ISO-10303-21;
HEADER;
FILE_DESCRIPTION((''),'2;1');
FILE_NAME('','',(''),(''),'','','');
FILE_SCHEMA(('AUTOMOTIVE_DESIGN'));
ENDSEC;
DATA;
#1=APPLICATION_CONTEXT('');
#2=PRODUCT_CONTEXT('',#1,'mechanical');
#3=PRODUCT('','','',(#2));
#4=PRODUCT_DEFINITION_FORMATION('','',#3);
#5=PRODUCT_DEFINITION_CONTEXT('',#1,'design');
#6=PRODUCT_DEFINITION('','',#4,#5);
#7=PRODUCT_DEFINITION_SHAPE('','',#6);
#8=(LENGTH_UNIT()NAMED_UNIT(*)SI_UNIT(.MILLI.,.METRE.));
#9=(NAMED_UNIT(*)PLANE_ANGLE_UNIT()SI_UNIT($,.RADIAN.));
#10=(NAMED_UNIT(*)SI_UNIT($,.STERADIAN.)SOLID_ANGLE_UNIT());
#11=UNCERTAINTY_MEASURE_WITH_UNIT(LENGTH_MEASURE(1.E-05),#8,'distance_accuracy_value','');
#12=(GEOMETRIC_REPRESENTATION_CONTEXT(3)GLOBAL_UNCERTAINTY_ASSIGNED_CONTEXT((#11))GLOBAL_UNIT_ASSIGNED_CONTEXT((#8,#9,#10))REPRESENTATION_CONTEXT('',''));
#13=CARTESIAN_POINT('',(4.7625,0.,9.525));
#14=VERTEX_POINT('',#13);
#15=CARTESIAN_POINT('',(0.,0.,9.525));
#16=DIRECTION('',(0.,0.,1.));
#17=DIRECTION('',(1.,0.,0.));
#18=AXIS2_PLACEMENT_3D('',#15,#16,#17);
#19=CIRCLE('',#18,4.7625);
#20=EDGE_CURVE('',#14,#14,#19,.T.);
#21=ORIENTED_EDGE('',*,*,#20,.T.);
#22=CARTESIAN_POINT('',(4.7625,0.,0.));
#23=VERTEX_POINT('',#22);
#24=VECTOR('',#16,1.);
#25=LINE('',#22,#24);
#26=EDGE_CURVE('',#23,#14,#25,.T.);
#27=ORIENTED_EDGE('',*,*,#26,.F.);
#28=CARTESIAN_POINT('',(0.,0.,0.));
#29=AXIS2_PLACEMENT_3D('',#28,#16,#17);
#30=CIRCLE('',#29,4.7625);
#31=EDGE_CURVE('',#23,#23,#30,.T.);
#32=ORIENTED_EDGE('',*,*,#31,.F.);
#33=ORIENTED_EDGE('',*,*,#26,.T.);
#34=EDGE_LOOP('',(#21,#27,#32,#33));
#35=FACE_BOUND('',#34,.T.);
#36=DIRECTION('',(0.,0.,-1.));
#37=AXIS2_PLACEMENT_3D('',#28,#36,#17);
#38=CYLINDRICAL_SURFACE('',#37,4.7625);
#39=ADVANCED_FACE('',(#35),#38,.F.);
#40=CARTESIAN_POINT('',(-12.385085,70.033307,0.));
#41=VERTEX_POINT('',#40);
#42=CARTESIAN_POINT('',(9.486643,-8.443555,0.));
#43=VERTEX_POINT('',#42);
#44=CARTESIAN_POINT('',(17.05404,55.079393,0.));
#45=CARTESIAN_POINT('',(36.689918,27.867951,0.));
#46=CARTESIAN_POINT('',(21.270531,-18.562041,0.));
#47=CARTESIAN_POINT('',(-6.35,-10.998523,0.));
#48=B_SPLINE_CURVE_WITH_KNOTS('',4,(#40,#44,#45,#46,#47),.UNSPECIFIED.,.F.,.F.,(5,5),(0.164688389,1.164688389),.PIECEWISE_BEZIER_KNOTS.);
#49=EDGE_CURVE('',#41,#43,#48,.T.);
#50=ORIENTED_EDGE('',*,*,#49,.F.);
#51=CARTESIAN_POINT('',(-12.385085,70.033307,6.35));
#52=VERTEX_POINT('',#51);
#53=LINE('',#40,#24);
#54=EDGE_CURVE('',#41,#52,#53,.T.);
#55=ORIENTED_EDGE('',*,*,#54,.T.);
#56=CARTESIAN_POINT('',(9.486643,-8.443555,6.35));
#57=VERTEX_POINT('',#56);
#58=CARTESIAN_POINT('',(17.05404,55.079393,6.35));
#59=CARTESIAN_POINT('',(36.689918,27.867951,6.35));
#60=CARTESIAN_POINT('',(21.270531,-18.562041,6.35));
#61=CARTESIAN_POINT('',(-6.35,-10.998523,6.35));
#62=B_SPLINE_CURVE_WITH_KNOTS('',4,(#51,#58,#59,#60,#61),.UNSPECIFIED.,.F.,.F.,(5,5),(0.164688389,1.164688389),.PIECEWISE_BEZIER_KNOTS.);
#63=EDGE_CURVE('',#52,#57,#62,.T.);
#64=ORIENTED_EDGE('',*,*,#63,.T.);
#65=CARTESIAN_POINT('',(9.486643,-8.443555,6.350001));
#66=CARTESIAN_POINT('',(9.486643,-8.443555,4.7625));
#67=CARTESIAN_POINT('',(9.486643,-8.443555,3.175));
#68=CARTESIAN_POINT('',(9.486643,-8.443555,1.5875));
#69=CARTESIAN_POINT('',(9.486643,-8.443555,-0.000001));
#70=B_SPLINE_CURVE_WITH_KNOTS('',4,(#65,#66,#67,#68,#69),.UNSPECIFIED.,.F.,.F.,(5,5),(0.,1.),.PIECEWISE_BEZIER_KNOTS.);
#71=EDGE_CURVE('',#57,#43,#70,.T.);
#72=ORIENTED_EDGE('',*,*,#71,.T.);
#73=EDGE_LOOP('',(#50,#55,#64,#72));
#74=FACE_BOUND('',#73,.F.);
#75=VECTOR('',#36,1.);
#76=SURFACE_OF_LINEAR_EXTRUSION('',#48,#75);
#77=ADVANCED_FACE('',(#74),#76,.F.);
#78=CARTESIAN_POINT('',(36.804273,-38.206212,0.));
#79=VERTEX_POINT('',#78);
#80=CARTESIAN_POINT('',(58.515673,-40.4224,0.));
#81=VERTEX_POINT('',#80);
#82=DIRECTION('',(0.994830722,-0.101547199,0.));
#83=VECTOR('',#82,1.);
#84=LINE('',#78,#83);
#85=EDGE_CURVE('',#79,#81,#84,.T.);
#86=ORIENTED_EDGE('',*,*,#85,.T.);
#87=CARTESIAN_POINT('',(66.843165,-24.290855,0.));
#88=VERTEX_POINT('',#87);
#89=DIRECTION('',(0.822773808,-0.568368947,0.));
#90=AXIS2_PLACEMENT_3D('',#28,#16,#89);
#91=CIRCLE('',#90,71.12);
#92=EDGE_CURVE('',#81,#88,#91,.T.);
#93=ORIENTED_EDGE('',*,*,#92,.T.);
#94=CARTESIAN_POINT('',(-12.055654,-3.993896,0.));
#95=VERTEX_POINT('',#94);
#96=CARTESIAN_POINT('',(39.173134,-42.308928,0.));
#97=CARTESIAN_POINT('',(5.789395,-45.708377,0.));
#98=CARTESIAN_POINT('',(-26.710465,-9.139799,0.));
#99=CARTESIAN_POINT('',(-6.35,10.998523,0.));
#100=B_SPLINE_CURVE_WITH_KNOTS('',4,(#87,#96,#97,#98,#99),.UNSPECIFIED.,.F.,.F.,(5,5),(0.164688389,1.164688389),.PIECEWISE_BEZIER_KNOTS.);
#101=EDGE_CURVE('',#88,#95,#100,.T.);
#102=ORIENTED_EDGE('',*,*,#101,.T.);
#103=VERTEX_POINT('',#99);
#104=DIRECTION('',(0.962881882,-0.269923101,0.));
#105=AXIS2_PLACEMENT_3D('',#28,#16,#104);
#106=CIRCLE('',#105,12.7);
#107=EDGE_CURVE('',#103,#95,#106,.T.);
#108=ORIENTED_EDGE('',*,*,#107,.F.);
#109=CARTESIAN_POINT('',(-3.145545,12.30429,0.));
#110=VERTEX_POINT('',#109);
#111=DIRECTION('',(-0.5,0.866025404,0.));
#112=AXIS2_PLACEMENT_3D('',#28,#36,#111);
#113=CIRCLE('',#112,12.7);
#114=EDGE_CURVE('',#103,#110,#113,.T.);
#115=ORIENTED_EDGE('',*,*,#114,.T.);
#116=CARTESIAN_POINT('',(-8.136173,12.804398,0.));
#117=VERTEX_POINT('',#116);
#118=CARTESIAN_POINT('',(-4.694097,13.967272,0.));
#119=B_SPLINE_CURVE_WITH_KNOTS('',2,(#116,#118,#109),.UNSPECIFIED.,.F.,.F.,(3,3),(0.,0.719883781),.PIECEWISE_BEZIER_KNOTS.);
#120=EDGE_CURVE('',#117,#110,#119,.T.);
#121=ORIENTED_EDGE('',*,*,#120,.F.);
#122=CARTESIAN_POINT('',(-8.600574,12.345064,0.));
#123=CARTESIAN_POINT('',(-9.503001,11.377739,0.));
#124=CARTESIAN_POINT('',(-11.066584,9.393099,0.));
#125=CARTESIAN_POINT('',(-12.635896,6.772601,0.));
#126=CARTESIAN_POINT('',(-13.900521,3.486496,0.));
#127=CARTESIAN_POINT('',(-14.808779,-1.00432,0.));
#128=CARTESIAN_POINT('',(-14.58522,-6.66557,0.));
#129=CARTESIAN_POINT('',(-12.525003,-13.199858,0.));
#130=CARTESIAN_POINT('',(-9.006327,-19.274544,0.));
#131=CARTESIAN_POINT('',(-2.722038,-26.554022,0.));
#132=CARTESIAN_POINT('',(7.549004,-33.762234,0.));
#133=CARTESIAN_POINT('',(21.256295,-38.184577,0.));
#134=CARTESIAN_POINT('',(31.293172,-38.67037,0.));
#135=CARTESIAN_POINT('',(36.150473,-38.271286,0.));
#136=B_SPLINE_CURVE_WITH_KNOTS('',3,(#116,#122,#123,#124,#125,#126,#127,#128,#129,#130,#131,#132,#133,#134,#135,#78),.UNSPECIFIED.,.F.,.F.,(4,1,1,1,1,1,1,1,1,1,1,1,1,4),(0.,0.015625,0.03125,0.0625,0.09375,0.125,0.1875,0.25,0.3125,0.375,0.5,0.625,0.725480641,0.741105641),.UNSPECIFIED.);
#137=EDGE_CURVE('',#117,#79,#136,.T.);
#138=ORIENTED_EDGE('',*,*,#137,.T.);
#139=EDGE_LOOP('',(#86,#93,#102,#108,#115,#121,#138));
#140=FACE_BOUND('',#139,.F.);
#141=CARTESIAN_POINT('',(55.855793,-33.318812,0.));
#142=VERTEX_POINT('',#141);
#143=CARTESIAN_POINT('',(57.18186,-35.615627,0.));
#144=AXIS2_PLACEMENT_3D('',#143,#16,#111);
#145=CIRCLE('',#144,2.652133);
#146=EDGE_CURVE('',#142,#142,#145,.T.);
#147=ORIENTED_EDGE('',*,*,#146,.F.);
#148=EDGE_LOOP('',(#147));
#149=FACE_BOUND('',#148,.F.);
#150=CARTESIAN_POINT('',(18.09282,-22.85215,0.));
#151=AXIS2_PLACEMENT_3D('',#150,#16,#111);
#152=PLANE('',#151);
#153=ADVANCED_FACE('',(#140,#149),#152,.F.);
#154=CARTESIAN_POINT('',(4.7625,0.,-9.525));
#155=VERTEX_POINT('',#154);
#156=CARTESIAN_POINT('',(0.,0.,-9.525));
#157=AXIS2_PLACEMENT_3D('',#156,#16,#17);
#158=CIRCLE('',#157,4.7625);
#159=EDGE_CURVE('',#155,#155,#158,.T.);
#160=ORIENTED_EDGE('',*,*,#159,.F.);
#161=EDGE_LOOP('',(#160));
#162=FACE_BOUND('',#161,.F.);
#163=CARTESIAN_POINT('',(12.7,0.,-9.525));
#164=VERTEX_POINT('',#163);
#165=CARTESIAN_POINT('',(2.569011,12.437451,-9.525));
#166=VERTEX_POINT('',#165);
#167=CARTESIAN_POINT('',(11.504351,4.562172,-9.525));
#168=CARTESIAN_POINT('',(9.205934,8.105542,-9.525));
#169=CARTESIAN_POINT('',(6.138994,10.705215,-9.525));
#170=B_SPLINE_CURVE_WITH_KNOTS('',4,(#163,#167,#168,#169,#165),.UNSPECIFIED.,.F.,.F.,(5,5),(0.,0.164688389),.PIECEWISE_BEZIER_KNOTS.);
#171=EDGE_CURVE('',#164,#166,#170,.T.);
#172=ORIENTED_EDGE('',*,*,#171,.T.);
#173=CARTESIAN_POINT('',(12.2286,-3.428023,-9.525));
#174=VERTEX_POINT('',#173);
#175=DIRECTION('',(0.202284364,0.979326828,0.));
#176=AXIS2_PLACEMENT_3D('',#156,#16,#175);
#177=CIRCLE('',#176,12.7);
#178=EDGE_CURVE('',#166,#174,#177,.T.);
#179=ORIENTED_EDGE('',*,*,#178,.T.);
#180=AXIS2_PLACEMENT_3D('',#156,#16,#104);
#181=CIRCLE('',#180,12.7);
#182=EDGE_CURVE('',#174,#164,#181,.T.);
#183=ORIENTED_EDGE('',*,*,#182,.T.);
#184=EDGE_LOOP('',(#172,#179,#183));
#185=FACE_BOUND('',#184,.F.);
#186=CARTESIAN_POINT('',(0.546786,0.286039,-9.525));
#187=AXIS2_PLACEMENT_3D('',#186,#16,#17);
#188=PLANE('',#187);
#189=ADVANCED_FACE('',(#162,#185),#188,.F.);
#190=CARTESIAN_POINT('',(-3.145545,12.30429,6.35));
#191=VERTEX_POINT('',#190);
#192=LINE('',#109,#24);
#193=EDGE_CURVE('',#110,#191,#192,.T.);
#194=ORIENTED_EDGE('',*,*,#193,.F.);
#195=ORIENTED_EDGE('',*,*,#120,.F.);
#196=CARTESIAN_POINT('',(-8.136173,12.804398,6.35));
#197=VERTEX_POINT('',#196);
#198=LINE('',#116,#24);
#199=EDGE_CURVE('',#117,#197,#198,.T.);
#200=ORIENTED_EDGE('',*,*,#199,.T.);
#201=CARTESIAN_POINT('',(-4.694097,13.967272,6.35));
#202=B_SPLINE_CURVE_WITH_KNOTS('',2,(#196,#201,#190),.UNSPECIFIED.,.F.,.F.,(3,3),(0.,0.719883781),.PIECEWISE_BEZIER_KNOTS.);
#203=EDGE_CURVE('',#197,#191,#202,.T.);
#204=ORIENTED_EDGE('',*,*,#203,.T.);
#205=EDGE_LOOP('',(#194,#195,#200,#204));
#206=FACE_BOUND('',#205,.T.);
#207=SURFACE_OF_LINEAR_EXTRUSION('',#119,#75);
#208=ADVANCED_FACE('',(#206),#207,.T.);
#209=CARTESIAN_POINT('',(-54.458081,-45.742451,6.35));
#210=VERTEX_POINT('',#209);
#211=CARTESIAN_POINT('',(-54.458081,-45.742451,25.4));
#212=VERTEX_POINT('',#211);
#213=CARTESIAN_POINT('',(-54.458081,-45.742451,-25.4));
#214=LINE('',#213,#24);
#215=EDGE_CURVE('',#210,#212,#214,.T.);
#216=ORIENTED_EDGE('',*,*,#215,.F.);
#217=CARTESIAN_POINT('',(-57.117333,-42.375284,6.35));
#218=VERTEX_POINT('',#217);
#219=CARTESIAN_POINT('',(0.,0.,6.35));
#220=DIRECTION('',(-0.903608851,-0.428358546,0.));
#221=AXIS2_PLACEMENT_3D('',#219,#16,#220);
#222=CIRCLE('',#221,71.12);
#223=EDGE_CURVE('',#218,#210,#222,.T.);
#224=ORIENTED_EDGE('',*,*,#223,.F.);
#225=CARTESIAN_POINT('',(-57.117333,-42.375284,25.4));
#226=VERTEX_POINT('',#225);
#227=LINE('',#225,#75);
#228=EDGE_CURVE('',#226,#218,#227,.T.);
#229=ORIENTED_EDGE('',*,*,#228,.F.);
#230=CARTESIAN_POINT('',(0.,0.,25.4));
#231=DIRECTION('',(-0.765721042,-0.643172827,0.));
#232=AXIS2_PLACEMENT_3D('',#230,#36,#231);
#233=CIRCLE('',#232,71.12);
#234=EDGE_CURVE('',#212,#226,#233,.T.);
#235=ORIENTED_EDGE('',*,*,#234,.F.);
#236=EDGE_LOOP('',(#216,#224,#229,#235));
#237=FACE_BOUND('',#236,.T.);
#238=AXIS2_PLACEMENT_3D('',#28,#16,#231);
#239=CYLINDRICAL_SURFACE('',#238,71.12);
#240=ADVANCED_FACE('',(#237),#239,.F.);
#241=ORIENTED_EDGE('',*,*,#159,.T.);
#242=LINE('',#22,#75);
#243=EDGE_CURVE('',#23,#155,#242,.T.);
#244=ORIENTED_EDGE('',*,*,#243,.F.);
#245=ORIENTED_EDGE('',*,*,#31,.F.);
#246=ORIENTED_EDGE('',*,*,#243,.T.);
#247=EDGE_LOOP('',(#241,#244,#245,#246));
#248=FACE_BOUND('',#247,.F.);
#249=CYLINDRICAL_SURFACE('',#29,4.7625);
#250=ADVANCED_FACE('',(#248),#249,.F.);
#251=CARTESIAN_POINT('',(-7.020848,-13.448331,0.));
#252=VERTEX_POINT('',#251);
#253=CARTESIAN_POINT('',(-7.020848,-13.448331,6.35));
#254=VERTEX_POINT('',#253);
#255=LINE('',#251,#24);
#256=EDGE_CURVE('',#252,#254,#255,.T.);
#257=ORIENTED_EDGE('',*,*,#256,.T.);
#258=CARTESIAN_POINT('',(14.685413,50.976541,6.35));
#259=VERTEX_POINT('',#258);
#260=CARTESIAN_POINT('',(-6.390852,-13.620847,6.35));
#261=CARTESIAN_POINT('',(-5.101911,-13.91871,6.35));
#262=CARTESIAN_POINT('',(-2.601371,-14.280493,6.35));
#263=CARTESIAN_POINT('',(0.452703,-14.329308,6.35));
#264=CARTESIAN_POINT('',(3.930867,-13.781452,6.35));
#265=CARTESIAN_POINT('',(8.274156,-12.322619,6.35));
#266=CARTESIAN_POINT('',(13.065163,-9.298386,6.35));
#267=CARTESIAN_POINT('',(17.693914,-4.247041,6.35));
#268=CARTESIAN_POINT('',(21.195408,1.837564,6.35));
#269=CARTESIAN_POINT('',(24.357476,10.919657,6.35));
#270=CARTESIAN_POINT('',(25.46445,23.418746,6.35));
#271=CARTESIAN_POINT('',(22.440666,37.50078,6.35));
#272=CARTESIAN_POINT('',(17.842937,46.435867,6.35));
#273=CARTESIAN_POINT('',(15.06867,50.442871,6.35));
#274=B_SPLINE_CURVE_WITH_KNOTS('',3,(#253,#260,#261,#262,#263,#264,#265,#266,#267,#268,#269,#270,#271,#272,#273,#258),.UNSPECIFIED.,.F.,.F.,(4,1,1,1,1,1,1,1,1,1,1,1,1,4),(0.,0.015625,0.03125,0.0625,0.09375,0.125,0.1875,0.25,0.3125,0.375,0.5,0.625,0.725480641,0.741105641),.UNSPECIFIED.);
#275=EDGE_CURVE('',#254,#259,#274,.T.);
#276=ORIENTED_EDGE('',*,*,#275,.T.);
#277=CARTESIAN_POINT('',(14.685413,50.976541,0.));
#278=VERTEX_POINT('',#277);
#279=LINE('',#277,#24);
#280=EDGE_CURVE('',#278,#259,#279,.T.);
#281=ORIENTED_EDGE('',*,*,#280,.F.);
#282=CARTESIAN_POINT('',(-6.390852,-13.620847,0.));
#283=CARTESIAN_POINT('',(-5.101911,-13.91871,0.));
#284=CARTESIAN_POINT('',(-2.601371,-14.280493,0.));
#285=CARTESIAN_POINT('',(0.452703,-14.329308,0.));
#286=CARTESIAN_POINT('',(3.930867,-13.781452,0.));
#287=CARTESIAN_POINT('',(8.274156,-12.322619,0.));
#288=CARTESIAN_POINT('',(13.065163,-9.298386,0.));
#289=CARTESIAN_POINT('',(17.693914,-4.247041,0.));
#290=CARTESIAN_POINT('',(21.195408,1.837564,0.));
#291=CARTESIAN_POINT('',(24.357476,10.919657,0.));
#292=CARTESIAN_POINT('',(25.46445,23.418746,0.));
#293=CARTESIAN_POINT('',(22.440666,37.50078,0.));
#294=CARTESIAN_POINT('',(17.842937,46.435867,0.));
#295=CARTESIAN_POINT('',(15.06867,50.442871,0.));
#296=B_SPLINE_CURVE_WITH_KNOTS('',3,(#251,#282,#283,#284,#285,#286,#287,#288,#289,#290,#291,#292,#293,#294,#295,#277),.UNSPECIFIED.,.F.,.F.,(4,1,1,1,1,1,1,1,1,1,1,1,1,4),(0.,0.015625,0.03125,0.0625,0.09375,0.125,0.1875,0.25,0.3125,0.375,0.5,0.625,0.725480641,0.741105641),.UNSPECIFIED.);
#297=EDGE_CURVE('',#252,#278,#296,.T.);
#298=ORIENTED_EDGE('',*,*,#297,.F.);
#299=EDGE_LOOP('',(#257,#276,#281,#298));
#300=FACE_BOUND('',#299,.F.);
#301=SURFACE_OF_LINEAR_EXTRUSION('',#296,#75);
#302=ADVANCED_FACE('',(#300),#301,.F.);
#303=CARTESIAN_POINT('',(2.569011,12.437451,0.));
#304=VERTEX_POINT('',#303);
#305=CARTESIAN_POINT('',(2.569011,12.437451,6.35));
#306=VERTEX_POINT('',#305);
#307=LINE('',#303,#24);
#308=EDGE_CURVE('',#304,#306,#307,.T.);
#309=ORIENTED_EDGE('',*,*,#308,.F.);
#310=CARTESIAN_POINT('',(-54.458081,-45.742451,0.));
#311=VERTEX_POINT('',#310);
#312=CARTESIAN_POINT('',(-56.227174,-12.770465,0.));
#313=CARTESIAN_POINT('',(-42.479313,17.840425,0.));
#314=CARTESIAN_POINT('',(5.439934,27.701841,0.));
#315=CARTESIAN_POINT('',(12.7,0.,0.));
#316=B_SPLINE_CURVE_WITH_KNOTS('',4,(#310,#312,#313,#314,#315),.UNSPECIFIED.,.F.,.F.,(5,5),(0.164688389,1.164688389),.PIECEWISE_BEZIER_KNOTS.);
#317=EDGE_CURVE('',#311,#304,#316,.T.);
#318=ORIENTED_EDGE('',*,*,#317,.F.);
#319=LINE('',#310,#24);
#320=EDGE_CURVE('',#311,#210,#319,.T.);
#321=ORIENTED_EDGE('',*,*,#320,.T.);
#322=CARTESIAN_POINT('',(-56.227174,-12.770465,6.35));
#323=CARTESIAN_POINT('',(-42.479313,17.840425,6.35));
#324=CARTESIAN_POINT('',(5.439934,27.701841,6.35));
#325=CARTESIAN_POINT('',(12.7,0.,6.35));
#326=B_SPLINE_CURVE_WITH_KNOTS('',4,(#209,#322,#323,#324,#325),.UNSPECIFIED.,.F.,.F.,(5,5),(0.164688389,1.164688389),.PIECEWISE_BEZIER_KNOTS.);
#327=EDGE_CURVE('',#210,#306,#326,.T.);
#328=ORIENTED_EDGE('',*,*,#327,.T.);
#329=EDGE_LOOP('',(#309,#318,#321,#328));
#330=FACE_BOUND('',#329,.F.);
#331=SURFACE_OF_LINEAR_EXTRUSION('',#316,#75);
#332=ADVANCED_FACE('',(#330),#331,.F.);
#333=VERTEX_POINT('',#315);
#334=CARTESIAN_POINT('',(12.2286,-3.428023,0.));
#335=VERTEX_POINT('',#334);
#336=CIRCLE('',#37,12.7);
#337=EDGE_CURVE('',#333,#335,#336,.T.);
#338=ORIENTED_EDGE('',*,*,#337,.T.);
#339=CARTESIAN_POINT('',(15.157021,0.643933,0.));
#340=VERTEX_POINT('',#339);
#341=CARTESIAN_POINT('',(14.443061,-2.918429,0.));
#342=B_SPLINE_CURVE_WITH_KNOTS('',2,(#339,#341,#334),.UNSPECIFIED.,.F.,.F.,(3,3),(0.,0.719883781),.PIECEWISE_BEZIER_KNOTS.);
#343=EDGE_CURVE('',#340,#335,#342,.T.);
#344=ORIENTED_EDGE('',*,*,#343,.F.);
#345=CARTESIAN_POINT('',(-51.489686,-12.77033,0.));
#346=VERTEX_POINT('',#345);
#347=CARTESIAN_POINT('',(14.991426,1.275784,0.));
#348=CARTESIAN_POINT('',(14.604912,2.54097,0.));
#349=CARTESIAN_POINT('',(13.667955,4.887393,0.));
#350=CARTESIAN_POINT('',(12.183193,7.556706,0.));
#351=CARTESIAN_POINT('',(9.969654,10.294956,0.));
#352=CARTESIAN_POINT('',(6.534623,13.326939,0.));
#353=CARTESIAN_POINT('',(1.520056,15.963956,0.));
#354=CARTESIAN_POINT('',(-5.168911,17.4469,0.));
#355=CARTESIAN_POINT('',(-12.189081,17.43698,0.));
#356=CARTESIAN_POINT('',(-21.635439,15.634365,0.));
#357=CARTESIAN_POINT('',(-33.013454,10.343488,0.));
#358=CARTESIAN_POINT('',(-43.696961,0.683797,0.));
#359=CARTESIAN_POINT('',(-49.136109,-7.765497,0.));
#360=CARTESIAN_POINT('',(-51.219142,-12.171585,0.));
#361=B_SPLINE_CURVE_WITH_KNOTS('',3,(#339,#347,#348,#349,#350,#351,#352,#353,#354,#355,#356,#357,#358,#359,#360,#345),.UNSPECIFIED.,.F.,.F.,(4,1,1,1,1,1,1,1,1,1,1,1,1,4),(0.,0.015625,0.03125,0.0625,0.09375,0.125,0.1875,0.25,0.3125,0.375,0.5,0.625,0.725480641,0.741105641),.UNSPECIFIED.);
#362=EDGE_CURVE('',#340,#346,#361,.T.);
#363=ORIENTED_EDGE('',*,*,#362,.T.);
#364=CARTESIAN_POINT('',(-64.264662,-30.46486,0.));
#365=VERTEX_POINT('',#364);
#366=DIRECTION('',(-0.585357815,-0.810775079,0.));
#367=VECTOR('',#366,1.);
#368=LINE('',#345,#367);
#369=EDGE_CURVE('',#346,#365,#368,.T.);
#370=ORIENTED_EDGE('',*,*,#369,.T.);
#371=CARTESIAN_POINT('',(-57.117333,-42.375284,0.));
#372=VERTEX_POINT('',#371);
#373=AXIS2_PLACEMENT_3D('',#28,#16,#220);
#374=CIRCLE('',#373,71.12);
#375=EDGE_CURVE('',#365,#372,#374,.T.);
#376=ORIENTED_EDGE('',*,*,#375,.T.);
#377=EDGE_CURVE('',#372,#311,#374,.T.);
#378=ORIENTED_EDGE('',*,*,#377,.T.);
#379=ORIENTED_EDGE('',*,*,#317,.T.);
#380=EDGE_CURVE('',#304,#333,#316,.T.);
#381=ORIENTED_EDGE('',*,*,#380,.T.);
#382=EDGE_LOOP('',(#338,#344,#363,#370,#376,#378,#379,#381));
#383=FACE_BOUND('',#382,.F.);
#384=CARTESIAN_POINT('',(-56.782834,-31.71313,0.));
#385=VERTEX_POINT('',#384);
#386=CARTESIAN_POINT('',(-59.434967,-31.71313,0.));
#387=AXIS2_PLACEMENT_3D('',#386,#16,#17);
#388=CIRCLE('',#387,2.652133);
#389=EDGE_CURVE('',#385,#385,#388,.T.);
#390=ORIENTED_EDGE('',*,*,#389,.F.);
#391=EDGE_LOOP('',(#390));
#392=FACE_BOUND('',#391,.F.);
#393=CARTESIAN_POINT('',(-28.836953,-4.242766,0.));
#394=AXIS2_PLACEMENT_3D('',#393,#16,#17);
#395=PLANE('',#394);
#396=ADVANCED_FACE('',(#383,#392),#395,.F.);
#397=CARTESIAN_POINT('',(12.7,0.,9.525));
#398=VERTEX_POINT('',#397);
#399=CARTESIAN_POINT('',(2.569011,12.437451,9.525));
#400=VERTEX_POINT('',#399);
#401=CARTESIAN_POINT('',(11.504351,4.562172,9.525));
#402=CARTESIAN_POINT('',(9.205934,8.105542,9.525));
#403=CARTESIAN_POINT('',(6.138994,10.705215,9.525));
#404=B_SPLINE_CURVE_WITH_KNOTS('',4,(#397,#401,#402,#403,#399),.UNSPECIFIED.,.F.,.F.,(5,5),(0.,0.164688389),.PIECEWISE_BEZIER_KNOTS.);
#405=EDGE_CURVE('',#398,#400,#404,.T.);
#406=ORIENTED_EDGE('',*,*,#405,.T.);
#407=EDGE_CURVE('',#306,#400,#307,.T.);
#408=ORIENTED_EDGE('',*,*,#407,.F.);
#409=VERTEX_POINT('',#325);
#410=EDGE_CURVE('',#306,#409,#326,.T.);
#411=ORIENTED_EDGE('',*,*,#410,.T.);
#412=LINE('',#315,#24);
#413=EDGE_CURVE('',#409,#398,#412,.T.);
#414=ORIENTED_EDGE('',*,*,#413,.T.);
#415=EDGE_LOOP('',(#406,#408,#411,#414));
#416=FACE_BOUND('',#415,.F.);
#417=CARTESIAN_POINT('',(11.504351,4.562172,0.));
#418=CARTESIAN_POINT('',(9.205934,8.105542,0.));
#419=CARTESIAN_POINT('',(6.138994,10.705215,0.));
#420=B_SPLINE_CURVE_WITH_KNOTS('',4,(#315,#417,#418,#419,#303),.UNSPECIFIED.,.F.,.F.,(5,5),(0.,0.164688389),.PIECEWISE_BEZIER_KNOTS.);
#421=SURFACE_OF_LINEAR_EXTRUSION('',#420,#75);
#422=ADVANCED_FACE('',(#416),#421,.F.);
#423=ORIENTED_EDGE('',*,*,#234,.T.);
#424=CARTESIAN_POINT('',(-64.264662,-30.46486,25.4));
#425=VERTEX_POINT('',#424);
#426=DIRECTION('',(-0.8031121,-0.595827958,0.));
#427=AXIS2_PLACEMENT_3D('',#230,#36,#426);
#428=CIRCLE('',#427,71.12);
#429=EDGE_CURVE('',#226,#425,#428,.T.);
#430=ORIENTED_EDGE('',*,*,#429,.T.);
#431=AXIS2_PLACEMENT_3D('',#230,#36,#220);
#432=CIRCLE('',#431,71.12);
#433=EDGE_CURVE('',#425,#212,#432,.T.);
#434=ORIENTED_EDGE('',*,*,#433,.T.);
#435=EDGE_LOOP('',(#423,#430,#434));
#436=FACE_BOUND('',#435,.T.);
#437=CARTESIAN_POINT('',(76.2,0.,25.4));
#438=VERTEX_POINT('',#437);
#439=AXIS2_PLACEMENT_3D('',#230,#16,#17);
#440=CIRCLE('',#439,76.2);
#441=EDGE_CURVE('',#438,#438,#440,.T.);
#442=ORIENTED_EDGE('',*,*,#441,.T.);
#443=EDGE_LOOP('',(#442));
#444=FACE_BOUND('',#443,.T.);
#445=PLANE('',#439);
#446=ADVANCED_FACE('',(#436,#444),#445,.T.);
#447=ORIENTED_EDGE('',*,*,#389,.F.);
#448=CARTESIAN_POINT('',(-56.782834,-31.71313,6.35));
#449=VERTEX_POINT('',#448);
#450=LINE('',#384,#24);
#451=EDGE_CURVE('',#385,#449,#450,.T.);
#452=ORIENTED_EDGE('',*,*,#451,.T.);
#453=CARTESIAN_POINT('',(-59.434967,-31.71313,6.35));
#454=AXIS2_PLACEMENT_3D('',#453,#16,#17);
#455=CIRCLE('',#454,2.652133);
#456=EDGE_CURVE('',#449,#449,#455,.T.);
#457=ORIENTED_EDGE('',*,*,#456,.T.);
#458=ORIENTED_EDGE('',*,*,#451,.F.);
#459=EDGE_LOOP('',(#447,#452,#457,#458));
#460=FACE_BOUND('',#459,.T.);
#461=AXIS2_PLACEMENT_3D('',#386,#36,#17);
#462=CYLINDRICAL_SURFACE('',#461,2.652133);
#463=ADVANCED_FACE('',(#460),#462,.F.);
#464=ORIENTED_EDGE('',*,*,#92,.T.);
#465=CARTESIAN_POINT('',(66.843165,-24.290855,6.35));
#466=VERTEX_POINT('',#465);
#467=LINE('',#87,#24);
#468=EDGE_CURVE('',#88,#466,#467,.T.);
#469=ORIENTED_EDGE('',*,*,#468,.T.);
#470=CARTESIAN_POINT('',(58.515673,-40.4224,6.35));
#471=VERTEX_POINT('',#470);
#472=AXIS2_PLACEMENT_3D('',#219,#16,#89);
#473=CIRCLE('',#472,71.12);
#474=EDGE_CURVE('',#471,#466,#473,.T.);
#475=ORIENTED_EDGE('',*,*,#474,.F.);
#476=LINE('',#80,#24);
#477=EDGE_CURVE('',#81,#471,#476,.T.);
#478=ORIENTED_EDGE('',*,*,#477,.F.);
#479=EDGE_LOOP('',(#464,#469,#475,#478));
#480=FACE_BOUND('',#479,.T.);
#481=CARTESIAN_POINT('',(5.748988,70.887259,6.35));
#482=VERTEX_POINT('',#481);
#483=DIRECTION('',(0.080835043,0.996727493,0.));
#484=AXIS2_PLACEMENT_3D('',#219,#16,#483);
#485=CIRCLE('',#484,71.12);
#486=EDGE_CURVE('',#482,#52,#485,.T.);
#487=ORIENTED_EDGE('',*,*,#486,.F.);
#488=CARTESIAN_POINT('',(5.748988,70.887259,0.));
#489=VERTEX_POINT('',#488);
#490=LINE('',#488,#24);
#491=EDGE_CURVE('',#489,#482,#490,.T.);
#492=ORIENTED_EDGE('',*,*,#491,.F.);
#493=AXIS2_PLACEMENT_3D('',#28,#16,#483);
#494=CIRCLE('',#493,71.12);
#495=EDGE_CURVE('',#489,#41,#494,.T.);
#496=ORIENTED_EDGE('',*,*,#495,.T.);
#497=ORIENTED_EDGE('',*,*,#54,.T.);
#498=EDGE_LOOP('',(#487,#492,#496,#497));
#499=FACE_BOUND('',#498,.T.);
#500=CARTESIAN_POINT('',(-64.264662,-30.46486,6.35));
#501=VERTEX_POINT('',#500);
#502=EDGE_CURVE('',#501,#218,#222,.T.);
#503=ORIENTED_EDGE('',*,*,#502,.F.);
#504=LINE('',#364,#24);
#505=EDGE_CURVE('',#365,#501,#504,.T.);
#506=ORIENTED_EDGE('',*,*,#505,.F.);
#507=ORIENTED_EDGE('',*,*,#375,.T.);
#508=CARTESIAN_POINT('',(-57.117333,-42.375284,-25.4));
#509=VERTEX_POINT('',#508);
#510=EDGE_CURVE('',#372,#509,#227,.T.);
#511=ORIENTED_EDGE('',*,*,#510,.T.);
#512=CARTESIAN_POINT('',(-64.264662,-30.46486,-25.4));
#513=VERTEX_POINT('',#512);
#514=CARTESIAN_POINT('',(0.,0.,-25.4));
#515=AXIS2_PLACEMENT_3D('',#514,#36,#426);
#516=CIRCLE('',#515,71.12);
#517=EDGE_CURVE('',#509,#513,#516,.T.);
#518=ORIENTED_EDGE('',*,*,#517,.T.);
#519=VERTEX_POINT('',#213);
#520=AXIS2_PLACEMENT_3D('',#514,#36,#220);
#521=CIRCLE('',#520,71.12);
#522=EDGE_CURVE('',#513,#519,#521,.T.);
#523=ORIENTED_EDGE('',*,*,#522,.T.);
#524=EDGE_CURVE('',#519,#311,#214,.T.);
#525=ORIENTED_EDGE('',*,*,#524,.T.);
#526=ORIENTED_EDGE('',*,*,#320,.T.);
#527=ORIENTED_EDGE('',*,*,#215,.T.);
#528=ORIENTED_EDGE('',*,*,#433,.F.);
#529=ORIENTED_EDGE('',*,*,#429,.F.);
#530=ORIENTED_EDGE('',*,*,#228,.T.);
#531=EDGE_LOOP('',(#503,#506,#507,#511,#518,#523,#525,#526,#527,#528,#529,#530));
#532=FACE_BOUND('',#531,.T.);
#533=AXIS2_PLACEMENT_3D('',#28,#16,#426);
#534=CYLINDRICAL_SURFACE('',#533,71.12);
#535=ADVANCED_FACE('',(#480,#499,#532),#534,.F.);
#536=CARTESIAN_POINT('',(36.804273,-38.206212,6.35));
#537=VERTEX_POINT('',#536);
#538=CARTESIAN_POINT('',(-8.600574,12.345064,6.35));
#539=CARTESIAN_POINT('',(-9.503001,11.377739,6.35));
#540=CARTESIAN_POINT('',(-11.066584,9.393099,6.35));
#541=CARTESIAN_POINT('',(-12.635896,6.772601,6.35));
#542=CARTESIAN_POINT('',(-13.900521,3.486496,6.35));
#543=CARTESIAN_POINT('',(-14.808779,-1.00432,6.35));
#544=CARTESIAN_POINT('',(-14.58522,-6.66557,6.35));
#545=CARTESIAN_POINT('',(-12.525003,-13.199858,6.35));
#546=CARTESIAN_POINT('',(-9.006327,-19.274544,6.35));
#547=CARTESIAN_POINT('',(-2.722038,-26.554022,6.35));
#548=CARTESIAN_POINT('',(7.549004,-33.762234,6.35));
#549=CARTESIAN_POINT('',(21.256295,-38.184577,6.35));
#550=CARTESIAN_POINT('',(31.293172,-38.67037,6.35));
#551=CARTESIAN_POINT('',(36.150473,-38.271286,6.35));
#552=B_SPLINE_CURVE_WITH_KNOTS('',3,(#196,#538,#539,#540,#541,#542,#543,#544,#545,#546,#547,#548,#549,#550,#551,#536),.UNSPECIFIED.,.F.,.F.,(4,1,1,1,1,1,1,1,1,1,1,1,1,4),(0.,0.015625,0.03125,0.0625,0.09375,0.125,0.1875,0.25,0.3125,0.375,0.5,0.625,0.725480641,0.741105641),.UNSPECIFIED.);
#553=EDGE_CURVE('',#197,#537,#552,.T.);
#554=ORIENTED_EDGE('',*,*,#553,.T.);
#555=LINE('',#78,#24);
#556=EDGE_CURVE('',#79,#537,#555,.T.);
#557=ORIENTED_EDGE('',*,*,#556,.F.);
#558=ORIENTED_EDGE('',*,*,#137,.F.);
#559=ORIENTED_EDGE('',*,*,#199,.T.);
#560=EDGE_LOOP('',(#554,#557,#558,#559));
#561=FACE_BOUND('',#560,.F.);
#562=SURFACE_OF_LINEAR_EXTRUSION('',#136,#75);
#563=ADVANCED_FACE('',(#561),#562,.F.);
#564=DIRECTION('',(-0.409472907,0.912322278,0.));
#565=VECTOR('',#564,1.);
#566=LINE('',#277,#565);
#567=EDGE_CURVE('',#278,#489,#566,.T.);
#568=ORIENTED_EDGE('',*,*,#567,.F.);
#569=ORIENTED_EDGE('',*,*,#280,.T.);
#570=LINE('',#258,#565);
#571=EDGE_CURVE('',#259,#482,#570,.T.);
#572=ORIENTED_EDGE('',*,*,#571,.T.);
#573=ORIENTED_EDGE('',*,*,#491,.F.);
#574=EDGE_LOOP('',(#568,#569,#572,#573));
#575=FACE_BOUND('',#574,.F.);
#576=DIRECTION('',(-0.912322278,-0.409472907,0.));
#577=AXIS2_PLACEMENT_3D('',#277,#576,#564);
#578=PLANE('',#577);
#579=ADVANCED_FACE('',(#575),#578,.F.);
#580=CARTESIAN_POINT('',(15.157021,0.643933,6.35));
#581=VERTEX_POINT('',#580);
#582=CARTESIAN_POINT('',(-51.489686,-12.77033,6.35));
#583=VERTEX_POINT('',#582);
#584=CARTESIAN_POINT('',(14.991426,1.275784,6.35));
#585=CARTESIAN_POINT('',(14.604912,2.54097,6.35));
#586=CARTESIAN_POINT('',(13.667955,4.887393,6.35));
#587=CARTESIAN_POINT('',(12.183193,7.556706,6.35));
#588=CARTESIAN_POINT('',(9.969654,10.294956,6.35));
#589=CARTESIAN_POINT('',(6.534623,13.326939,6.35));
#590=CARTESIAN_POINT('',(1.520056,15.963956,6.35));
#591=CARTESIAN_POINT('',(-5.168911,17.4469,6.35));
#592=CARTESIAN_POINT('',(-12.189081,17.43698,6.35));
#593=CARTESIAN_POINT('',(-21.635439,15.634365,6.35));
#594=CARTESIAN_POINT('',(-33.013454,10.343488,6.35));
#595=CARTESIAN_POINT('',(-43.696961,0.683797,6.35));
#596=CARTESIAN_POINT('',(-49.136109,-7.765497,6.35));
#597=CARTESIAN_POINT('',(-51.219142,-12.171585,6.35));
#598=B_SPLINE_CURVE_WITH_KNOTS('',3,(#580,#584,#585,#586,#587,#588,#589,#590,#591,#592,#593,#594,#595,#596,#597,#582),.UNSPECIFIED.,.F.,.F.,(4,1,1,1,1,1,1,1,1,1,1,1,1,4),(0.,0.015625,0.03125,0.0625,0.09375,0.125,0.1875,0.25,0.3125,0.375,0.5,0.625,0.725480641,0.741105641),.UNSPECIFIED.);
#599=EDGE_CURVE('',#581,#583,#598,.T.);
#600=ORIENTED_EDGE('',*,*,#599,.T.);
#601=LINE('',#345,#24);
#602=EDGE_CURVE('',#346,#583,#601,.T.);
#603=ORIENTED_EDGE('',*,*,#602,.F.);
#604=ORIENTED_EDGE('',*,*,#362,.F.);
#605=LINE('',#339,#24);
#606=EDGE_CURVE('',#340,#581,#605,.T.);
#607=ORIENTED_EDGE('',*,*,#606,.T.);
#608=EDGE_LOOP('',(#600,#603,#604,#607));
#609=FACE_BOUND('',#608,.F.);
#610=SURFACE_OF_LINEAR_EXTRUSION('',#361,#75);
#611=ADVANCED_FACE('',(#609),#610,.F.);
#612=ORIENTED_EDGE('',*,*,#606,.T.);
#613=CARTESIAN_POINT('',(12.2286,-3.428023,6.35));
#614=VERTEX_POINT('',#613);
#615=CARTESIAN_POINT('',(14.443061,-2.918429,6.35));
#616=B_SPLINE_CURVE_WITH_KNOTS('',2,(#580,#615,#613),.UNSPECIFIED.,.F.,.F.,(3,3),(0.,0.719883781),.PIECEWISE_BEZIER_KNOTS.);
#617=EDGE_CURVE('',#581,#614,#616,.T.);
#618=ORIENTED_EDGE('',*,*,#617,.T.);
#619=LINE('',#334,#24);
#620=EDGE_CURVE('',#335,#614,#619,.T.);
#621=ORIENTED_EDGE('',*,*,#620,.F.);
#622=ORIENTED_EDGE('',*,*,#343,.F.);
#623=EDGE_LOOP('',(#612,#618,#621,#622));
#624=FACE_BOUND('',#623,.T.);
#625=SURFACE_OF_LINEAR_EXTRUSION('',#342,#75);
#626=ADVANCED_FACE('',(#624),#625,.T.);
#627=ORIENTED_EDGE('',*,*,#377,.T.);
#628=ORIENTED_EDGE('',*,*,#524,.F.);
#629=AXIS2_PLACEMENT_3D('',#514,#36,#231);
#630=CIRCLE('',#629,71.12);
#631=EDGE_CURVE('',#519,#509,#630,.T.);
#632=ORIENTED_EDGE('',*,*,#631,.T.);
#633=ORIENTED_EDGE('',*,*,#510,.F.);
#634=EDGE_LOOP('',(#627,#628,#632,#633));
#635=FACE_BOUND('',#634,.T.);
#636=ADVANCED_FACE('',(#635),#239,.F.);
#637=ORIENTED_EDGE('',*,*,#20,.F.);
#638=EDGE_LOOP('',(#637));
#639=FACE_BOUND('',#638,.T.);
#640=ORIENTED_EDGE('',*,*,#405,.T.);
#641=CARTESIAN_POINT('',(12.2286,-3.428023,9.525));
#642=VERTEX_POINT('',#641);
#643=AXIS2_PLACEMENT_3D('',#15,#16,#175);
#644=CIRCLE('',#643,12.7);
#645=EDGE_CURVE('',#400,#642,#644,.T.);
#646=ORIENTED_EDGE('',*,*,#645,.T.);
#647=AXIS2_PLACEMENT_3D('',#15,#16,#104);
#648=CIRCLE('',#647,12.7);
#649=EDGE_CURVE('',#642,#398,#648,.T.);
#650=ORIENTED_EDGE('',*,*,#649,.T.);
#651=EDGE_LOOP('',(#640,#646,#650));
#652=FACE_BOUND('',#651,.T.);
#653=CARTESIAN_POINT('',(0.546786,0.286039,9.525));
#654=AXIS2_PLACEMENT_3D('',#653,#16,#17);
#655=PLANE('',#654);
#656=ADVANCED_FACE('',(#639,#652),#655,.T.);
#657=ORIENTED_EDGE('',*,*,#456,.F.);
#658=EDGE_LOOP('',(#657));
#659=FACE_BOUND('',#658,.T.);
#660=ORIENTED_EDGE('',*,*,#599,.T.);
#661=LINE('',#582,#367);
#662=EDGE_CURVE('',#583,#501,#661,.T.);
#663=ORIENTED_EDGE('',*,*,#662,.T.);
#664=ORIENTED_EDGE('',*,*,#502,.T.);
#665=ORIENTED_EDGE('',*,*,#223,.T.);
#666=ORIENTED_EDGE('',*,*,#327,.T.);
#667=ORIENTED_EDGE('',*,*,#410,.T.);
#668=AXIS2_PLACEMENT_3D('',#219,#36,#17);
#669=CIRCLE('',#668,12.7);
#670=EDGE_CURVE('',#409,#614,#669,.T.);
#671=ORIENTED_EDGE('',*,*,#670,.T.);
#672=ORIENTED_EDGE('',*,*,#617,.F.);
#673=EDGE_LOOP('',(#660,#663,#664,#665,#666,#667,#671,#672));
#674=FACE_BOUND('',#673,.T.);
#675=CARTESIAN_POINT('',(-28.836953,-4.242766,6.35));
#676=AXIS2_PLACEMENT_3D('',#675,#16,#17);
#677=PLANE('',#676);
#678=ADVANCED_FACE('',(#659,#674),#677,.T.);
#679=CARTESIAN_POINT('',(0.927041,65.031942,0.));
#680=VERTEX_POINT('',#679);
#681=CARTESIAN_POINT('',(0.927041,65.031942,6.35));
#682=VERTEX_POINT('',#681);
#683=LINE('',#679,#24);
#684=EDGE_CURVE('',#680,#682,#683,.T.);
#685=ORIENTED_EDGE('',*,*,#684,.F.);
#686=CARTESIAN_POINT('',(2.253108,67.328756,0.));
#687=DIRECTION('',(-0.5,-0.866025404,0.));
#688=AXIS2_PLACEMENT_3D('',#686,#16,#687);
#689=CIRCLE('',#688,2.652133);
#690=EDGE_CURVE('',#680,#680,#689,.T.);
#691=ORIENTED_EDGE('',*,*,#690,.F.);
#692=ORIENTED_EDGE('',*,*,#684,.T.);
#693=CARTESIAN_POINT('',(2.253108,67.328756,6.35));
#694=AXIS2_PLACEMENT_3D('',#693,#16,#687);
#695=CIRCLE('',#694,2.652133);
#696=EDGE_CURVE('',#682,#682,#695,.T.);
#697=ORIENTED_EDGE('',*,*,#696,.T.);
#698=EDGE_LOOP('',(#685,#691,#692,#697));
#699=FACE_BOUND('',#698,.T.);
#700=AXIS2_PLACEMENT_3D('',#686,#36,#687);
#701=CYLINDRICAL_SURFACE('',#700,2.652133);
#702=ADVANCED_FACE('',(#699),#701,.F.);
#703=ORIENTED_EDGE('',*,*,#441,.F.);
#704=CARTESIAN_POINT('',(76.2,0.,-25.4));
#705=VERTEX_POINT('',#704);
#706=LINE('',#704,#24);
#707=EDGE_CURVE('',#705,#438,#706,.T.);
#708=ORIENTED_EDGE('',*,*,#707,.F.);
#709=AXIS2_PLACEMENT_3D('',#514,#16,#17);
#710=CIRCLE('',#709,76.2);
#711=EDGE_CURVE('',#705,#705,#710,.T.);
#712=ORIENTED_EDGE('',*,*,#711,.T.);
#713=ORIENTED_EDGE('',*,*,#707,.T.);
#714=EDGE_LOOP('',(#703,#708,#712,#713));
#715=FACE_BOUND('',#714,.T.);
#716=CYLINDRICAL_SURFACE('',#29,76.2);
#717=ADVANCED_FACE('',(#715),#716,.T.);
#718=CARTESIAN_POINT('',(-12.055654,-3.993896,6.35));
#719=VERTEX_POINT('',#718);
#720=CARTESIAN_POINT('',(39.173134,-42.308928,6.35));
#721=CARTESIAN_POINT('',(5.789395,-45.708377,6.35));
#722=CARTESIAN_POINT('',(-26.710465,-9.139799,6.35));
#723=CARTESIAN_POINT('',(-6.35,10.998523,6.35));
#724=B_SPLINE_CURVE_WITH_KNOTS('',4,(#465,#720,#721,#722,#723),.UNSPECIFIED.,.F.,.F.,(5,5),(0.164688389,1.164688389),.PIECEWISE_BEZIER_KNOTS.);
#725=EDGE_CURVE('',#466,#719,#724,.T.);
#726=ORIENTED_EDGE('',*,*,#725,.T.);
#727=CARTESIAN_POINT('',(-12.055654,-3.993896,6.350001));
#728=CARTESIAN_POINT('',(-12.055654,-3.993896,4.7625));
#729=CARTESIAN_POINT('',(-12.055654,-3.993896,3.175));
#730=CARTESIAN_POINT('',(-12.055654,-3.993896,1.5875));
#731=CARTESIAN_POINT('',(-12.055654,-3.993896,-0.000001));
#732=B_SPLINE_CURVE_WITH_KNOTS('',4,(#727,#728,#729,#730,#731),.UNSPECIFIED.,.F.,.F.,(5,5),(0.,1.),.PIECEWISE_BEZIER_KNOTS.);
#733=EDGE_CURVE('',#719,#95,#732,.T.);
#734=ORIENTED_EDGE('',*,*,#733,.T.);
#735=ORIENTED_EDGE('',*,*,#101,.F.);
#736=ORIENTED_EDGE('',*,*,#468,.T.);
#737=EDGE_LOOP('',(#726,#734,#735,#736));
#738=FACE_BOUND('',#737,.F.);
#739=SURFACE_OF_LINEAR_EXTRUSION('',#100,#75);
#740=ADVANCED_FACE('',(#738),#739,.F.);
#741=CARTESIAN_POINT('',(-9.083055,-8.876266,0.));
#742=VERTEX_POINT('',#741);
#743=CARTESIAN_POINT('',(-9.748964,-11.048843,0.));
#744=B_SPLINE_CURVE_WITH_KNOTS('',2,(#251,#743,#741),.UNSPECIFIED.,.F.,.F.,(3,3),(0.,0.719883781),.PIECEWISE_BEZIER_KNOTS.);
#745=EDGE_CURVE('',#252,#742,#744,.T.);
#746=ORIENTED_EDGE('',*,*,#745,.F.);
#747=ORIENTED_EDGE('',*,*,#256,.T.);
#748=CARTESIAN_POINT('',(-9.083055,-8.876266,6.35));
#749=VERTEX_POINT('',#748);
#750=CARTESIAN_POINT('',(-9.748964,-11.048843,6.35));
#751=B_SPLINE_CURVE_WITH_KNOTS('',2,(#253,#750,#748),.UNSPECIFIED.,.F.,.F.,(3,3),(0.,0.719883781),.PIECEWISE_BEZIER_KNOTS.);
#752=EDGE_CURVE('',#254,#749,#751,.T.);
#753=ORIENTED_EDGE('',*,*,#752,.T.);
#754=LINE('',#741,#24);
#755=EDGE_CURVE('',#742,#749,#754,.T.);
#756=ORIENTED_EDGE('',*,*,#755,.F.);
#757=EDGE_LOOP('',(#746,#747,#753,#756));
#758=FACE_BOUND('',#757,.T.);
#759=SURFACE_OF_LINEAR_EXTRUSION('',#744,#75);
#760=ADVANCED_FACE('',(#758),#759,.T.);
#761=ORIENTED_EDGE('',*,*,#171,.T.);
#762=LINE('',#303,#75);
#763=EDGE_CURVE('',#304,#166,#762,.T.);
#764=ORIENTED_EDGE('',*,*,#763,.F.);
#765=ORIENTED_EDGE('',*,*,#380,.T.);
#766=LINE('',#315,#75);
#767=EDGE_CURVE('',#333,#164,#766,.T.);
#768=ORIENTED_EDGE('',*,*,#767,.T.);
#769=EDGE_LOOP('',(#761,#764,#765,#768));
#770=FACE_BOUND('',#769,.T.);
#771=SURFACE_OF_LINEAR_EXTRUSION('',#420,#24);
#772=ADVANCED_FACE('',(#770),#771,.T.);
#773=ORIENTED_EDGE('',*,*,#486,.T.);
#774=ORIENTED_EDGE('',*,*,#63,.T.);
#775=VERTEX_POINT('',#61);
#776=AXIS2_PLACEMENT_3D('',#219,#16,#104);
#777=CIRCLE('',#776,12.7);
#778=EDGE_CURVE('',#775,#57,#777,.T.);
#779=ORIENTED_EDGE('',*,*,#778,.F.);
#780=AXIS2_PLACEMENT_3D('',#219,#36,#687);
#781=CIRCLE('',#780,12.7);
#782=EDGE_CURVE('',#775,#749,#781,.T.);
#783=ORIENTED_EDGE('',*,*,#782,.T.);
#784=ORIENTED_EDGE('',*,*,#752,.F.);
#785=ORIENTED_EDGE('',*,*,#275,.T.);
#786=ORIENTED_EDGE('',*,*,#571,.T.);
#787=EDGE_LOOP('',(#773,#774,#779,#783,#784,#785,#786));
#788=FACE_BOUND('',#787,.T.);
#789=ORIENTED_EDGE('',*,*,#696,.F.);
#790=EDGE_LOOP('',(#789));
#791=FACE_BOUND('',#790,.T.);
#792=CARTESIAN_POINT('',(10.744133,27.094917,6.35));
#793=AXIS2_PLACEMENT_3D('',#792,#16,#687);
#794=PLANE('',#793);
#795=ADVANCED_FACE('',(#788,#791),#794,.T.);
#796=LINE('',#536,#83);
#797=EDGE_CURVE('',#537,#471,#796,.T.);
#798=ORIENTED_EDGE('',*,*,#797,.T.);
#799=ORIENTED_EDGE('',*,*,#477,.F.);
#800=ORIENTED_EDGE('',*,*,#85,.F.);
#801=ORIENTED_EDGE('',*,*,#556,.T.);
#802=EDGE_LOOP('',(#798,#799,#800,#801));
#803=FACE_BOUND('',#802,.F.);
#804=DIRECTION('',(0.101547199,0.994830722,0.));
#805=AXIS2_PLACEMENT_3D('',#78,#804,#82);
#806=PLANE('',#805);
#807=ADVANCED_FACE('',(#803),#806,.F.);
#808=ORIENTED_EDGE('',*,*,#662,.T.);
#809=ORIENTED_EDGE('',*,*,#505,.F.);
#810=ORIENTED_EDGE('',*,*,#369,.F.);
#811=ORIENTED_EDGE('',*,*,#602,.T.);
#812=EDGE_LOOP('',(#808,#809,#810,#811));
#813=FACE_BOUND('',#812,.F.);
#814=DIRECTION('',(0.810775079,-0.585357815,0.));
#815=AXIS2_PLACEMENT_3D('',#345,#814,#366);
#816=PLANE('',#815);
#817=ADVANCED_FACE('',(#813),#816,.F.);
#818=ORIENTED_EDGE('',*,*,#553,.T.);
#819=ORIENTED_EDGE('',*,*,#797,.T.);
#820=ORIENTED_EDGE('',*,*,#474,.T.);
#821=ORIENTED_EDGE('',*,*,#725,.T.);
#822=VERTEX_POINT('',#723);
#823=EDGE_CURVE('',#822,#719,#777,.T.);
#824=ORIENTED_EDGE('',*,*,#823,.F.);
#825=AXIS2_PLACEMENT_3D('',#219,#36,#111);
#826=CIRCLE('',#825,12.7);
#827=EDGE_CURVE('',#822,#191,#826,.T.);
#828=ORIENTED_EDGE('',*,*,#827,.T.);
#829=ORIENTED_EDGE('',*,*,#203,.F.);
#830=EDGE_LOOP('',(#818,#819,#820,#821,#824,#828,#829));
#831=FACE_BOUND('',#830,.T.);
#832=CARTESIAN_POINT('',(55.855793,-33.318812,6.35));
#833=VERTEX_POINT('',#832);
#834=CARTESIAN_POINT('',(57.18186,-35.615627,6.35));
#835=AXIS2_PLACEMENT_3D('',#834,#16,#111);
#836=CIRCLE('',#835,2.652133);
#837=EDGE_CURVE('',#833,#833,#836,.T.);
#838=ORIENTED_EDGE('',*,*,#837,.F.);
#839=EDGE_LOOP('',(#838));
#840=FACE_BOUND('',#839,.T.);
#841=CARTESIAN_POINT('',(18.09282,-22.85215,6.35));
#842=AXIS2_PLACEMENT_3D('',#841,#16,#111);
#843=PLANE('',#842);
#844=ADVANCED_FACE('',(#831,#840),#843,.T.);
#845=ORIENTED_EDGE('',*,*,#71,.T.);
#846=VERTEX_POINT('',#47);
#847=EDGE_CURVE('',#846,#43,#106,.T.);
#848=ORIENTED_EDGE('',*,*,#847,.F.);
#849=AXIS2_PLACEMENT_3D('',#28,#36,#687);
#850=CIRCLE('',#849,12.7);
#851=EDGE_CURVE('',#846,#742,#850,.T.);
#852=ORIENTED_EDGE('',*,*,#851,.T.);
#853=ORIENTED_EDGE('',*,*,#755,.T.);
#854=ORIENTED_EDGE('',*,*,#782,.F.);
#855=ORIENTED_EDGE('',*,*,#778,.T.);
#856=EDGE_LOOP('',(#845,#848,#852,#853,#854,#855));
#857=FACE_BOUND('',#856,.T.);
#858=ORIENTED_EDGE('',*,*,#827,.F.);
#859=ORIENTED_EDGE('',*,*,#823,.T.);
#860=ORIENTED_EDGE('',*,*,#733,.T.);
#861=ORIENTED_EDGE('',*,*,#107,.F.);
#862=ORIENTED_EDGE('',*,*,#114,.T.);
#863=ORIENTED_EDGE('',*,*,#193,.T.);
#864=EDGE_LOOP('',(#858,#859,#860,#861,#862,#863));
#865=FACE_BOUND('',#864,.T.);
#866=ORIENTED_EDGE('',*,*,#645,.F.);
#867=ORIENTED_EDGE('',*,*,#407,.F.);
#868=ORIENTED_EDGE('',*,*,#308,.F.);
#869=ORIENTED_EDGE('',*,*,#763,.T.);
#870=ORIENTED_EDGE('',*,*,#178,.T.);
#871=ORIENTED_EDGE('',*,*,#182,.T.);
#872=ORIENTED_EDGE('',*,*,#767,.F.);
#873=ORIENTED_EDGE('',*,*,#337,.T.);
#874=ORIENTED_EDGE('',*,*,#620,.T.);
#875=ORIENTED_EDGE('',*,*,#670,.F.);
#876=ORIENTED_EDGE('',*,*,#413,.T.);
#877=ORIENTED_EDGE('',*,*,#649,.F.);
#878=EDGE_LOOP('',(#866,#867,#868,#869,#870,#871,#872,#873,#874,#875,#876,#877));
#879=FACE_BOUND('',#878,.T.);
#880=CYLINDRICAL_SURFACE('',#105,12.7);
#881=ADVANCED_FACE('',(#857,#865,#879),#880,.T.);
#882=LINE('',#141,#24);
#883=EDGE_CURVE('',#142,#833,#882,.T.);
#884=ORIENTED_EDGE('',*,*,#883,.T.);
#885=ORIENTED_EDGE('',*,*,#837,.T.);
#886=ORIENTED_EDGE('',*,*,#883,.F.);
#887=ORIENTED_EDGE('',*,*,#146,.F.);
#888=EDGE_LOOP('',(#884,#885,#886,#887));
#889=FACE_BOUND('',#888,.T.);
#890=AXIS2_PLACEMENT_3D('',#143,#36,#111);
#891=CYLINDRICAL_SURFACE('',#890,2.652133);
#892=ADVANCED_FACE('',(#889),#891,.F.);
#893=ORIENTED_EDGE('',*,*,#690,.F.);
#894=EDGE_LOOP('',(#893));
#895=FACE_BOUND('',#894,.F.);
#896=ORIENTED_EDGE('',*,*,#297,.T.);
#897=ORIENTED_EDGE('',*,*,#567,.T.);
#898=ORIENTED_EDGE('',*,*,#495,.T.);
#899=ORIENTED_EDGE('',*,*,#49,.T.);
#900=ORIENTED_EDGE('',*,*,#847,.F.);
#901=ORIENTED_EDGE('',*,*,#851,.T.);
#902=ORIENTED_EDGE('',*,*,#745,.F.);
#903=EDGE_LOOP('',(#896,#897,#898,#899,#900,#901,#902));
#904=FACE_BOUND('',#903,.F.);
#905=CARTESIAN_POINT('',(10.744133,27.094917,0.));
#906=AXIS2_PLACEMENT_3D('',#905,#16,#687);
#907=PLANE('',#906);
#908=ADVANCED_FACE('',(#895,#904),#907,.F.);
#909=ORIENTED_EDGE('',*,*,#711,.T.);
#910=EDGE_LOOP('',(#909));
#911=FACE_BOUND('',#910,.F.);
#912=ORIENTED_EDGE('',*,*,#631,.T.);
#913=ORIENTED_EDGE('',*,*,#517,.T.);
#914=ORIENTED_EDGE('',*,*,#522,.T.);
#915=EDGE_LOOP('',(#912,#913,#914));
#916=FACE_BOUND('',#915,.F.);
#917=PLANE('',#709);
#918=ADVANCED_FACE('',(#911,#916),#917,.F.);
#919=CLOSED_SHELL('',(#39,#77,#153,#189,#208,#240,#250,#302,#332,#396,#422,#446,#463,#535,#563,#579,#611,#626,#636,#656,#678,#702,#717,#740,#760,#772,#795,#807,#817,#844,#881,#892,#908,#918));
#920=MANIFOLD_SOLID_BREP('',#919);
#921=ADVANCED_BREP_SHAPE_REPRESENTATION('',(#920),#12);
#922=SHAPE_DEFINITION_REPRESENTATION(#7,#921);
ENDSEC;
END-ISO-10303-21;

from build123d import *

# Parameters (mm, degrees)
SKETCH1_R            = 76.2
BOSS_EXTRUDE8_DEPTH  = 25.4
SKETCH1_3_R          = 2.652133243
BOSS_EXTRUDE9_DEPTH  = 6.35
SKETCH1_4_R          = 4.7625
BOSS_EXTRUDE10_DEPTH = 9.525
CIRPATTERN2_COUNT    = 3


with BuildPart() as part:
    # Sketch1 → Boss-Extrude8 (new, symmetric)
    with BuildSketch(Plane.XY):
        Circle(SKETCH1_R)
        with BuildLine():
            ThreePointArc((-64.2646615, -30.464859794), (-15.613322422, 69.385002435), (71.12, 0))
            ThreePointArc((71.12, 0), (24.341278866, -66.824819814), (-54.458080516, -45.74245147))
            ThreePointArc((-54.458080516, -45.74245147), (-55.813104666, -44.078926343), (-57.117332526, -42.375284367))
            ThreePointArc((-57.117332526, -42.375284367), (-60.982470201, -36.594982282), (-64.2646615, -30.464859794))
        make_face(mode=Mode.SUBTRACT)
    extrude(amount=BOSS_EXTRUDE8_DEPTH, both=True)

    # Sketch1<3> → Boss-Extrude9 (add)
    with BuildSketch(Plane.XY):
        with BuildLine():
            Line((-51.489686485, -12.770329882), (-64.2646615, -30.464859794))
            ThreePointArc((-64.2646615, -30.464859794), (-59.850844353, -38.417845205), (-54.458080516, -45.74245147))
            add(Edge.make_bspline(
                [(-54.458080516, -45.74245147), (-56.227173503, -12.770464941), (-42.479312579, 17.840425436), (5.439933994, 27.701840724), (12.7, 0)],
                knots=[0.164688389, 0.164688389, 0.164688389, 0.164688389, 0.164688389, 1.164688389, 1.164688389, 1.164688389, 1.164688389, 1.164688389], degree=4))
            ThreePointArc((12.7, 0), (12.581598046, -1.730141787), (12.228599905, -3.42802339))
            add(Edge.make_bspline(
                [(15.157020591, 0.643933082), (14.443060628, -2.918429068), (12.228599905, -3.42802339)],
                knots=[0, 0, 0, 0.719883781, 0.719883781, 0.719883781], degree=2))
            add(Edge.make_bspline(
                [(15.157020591, 0.643933082), (14.991425957, 1.275783561), (14.604911637, 2.54097033), (13.667954828, 4.887393309), (12.183192976, 7.556706342), (9.969654094, 10.294956422), (6.534622803, 13.326938907), (1.520056493, 15.963955949), (-5.168911286, 17.446899809), (-12.189081027, 17.436980233), (-21.635438647, 15.634364862), (-33.013454155, 10.343487809), (-43.696960831, 0.683796899), (-49.136108914, -7.765497225), (-51.219142397, -12.1715848), (-51.489686485, -12.770329882)],
                knots=[0, 0, 0, 0, 0.015625, 0.03125, 0.0625, 0.09375, 0.125, 0.1875, 0.25, 0.3125, 0.375, 0.5, 0.625, 0.725480641, 0.741105641, 0.741105641, 0.741105641, 0.741105641], degree=3))
        make_face()
        with Locations((-59.434967194, -31.713129844)):
            Circle(SKETCH1_3_R, mode=Mode.SUBTRACT)
    boss_extrude9 = extrude(amount=BOSS_EXTRUDE9_DEPTH)

    # Sketch1<4> → Boss-Extrude10 (add, symmetric)
    with BuildSketch(Plane.XY):
        with BuildLine():
            add(Edge.make_bspline(
                [(12.7, 0), (11.504351428, 4.56217151), (9.205933773, 8.105542424), (6.138994382, 10.705215229), (2.569011428, 12.437450715)],
                knots=[0, 0, 0, 0, 0, 0.164688389, 0.164688389, 0.164688389, 0.164688389, 0.164688389], degree=4))
            ThreePointArc((2.569011428, 12.437450715), (-10.847609987, -6.604495254), (12.228599905, -3.42802339))
            ThreePointArc((12.228599905, -3.42802339), (12.581598046, -1.730141787), (12.7, 0))
        make_face()
        Circle(SKETCH1_4_R, mode=Mode.SUBTRACT)
    extrude(amount=BOSS_EXTRUDE10_DEPTH, both=True)

    # CirPattern2: Boss-Extrude9 ×3 about axis
    cirpattern2_axis = Axis((0, 0, -27.94), (0, 0, 1))
    for i in range(1, CIRPATTERN2_COUNT):
        add(boss_extrude9.rotate(cirpattern2_axis, i * 360 / CIRPATTERN2_COUNT))


solid = part.part
